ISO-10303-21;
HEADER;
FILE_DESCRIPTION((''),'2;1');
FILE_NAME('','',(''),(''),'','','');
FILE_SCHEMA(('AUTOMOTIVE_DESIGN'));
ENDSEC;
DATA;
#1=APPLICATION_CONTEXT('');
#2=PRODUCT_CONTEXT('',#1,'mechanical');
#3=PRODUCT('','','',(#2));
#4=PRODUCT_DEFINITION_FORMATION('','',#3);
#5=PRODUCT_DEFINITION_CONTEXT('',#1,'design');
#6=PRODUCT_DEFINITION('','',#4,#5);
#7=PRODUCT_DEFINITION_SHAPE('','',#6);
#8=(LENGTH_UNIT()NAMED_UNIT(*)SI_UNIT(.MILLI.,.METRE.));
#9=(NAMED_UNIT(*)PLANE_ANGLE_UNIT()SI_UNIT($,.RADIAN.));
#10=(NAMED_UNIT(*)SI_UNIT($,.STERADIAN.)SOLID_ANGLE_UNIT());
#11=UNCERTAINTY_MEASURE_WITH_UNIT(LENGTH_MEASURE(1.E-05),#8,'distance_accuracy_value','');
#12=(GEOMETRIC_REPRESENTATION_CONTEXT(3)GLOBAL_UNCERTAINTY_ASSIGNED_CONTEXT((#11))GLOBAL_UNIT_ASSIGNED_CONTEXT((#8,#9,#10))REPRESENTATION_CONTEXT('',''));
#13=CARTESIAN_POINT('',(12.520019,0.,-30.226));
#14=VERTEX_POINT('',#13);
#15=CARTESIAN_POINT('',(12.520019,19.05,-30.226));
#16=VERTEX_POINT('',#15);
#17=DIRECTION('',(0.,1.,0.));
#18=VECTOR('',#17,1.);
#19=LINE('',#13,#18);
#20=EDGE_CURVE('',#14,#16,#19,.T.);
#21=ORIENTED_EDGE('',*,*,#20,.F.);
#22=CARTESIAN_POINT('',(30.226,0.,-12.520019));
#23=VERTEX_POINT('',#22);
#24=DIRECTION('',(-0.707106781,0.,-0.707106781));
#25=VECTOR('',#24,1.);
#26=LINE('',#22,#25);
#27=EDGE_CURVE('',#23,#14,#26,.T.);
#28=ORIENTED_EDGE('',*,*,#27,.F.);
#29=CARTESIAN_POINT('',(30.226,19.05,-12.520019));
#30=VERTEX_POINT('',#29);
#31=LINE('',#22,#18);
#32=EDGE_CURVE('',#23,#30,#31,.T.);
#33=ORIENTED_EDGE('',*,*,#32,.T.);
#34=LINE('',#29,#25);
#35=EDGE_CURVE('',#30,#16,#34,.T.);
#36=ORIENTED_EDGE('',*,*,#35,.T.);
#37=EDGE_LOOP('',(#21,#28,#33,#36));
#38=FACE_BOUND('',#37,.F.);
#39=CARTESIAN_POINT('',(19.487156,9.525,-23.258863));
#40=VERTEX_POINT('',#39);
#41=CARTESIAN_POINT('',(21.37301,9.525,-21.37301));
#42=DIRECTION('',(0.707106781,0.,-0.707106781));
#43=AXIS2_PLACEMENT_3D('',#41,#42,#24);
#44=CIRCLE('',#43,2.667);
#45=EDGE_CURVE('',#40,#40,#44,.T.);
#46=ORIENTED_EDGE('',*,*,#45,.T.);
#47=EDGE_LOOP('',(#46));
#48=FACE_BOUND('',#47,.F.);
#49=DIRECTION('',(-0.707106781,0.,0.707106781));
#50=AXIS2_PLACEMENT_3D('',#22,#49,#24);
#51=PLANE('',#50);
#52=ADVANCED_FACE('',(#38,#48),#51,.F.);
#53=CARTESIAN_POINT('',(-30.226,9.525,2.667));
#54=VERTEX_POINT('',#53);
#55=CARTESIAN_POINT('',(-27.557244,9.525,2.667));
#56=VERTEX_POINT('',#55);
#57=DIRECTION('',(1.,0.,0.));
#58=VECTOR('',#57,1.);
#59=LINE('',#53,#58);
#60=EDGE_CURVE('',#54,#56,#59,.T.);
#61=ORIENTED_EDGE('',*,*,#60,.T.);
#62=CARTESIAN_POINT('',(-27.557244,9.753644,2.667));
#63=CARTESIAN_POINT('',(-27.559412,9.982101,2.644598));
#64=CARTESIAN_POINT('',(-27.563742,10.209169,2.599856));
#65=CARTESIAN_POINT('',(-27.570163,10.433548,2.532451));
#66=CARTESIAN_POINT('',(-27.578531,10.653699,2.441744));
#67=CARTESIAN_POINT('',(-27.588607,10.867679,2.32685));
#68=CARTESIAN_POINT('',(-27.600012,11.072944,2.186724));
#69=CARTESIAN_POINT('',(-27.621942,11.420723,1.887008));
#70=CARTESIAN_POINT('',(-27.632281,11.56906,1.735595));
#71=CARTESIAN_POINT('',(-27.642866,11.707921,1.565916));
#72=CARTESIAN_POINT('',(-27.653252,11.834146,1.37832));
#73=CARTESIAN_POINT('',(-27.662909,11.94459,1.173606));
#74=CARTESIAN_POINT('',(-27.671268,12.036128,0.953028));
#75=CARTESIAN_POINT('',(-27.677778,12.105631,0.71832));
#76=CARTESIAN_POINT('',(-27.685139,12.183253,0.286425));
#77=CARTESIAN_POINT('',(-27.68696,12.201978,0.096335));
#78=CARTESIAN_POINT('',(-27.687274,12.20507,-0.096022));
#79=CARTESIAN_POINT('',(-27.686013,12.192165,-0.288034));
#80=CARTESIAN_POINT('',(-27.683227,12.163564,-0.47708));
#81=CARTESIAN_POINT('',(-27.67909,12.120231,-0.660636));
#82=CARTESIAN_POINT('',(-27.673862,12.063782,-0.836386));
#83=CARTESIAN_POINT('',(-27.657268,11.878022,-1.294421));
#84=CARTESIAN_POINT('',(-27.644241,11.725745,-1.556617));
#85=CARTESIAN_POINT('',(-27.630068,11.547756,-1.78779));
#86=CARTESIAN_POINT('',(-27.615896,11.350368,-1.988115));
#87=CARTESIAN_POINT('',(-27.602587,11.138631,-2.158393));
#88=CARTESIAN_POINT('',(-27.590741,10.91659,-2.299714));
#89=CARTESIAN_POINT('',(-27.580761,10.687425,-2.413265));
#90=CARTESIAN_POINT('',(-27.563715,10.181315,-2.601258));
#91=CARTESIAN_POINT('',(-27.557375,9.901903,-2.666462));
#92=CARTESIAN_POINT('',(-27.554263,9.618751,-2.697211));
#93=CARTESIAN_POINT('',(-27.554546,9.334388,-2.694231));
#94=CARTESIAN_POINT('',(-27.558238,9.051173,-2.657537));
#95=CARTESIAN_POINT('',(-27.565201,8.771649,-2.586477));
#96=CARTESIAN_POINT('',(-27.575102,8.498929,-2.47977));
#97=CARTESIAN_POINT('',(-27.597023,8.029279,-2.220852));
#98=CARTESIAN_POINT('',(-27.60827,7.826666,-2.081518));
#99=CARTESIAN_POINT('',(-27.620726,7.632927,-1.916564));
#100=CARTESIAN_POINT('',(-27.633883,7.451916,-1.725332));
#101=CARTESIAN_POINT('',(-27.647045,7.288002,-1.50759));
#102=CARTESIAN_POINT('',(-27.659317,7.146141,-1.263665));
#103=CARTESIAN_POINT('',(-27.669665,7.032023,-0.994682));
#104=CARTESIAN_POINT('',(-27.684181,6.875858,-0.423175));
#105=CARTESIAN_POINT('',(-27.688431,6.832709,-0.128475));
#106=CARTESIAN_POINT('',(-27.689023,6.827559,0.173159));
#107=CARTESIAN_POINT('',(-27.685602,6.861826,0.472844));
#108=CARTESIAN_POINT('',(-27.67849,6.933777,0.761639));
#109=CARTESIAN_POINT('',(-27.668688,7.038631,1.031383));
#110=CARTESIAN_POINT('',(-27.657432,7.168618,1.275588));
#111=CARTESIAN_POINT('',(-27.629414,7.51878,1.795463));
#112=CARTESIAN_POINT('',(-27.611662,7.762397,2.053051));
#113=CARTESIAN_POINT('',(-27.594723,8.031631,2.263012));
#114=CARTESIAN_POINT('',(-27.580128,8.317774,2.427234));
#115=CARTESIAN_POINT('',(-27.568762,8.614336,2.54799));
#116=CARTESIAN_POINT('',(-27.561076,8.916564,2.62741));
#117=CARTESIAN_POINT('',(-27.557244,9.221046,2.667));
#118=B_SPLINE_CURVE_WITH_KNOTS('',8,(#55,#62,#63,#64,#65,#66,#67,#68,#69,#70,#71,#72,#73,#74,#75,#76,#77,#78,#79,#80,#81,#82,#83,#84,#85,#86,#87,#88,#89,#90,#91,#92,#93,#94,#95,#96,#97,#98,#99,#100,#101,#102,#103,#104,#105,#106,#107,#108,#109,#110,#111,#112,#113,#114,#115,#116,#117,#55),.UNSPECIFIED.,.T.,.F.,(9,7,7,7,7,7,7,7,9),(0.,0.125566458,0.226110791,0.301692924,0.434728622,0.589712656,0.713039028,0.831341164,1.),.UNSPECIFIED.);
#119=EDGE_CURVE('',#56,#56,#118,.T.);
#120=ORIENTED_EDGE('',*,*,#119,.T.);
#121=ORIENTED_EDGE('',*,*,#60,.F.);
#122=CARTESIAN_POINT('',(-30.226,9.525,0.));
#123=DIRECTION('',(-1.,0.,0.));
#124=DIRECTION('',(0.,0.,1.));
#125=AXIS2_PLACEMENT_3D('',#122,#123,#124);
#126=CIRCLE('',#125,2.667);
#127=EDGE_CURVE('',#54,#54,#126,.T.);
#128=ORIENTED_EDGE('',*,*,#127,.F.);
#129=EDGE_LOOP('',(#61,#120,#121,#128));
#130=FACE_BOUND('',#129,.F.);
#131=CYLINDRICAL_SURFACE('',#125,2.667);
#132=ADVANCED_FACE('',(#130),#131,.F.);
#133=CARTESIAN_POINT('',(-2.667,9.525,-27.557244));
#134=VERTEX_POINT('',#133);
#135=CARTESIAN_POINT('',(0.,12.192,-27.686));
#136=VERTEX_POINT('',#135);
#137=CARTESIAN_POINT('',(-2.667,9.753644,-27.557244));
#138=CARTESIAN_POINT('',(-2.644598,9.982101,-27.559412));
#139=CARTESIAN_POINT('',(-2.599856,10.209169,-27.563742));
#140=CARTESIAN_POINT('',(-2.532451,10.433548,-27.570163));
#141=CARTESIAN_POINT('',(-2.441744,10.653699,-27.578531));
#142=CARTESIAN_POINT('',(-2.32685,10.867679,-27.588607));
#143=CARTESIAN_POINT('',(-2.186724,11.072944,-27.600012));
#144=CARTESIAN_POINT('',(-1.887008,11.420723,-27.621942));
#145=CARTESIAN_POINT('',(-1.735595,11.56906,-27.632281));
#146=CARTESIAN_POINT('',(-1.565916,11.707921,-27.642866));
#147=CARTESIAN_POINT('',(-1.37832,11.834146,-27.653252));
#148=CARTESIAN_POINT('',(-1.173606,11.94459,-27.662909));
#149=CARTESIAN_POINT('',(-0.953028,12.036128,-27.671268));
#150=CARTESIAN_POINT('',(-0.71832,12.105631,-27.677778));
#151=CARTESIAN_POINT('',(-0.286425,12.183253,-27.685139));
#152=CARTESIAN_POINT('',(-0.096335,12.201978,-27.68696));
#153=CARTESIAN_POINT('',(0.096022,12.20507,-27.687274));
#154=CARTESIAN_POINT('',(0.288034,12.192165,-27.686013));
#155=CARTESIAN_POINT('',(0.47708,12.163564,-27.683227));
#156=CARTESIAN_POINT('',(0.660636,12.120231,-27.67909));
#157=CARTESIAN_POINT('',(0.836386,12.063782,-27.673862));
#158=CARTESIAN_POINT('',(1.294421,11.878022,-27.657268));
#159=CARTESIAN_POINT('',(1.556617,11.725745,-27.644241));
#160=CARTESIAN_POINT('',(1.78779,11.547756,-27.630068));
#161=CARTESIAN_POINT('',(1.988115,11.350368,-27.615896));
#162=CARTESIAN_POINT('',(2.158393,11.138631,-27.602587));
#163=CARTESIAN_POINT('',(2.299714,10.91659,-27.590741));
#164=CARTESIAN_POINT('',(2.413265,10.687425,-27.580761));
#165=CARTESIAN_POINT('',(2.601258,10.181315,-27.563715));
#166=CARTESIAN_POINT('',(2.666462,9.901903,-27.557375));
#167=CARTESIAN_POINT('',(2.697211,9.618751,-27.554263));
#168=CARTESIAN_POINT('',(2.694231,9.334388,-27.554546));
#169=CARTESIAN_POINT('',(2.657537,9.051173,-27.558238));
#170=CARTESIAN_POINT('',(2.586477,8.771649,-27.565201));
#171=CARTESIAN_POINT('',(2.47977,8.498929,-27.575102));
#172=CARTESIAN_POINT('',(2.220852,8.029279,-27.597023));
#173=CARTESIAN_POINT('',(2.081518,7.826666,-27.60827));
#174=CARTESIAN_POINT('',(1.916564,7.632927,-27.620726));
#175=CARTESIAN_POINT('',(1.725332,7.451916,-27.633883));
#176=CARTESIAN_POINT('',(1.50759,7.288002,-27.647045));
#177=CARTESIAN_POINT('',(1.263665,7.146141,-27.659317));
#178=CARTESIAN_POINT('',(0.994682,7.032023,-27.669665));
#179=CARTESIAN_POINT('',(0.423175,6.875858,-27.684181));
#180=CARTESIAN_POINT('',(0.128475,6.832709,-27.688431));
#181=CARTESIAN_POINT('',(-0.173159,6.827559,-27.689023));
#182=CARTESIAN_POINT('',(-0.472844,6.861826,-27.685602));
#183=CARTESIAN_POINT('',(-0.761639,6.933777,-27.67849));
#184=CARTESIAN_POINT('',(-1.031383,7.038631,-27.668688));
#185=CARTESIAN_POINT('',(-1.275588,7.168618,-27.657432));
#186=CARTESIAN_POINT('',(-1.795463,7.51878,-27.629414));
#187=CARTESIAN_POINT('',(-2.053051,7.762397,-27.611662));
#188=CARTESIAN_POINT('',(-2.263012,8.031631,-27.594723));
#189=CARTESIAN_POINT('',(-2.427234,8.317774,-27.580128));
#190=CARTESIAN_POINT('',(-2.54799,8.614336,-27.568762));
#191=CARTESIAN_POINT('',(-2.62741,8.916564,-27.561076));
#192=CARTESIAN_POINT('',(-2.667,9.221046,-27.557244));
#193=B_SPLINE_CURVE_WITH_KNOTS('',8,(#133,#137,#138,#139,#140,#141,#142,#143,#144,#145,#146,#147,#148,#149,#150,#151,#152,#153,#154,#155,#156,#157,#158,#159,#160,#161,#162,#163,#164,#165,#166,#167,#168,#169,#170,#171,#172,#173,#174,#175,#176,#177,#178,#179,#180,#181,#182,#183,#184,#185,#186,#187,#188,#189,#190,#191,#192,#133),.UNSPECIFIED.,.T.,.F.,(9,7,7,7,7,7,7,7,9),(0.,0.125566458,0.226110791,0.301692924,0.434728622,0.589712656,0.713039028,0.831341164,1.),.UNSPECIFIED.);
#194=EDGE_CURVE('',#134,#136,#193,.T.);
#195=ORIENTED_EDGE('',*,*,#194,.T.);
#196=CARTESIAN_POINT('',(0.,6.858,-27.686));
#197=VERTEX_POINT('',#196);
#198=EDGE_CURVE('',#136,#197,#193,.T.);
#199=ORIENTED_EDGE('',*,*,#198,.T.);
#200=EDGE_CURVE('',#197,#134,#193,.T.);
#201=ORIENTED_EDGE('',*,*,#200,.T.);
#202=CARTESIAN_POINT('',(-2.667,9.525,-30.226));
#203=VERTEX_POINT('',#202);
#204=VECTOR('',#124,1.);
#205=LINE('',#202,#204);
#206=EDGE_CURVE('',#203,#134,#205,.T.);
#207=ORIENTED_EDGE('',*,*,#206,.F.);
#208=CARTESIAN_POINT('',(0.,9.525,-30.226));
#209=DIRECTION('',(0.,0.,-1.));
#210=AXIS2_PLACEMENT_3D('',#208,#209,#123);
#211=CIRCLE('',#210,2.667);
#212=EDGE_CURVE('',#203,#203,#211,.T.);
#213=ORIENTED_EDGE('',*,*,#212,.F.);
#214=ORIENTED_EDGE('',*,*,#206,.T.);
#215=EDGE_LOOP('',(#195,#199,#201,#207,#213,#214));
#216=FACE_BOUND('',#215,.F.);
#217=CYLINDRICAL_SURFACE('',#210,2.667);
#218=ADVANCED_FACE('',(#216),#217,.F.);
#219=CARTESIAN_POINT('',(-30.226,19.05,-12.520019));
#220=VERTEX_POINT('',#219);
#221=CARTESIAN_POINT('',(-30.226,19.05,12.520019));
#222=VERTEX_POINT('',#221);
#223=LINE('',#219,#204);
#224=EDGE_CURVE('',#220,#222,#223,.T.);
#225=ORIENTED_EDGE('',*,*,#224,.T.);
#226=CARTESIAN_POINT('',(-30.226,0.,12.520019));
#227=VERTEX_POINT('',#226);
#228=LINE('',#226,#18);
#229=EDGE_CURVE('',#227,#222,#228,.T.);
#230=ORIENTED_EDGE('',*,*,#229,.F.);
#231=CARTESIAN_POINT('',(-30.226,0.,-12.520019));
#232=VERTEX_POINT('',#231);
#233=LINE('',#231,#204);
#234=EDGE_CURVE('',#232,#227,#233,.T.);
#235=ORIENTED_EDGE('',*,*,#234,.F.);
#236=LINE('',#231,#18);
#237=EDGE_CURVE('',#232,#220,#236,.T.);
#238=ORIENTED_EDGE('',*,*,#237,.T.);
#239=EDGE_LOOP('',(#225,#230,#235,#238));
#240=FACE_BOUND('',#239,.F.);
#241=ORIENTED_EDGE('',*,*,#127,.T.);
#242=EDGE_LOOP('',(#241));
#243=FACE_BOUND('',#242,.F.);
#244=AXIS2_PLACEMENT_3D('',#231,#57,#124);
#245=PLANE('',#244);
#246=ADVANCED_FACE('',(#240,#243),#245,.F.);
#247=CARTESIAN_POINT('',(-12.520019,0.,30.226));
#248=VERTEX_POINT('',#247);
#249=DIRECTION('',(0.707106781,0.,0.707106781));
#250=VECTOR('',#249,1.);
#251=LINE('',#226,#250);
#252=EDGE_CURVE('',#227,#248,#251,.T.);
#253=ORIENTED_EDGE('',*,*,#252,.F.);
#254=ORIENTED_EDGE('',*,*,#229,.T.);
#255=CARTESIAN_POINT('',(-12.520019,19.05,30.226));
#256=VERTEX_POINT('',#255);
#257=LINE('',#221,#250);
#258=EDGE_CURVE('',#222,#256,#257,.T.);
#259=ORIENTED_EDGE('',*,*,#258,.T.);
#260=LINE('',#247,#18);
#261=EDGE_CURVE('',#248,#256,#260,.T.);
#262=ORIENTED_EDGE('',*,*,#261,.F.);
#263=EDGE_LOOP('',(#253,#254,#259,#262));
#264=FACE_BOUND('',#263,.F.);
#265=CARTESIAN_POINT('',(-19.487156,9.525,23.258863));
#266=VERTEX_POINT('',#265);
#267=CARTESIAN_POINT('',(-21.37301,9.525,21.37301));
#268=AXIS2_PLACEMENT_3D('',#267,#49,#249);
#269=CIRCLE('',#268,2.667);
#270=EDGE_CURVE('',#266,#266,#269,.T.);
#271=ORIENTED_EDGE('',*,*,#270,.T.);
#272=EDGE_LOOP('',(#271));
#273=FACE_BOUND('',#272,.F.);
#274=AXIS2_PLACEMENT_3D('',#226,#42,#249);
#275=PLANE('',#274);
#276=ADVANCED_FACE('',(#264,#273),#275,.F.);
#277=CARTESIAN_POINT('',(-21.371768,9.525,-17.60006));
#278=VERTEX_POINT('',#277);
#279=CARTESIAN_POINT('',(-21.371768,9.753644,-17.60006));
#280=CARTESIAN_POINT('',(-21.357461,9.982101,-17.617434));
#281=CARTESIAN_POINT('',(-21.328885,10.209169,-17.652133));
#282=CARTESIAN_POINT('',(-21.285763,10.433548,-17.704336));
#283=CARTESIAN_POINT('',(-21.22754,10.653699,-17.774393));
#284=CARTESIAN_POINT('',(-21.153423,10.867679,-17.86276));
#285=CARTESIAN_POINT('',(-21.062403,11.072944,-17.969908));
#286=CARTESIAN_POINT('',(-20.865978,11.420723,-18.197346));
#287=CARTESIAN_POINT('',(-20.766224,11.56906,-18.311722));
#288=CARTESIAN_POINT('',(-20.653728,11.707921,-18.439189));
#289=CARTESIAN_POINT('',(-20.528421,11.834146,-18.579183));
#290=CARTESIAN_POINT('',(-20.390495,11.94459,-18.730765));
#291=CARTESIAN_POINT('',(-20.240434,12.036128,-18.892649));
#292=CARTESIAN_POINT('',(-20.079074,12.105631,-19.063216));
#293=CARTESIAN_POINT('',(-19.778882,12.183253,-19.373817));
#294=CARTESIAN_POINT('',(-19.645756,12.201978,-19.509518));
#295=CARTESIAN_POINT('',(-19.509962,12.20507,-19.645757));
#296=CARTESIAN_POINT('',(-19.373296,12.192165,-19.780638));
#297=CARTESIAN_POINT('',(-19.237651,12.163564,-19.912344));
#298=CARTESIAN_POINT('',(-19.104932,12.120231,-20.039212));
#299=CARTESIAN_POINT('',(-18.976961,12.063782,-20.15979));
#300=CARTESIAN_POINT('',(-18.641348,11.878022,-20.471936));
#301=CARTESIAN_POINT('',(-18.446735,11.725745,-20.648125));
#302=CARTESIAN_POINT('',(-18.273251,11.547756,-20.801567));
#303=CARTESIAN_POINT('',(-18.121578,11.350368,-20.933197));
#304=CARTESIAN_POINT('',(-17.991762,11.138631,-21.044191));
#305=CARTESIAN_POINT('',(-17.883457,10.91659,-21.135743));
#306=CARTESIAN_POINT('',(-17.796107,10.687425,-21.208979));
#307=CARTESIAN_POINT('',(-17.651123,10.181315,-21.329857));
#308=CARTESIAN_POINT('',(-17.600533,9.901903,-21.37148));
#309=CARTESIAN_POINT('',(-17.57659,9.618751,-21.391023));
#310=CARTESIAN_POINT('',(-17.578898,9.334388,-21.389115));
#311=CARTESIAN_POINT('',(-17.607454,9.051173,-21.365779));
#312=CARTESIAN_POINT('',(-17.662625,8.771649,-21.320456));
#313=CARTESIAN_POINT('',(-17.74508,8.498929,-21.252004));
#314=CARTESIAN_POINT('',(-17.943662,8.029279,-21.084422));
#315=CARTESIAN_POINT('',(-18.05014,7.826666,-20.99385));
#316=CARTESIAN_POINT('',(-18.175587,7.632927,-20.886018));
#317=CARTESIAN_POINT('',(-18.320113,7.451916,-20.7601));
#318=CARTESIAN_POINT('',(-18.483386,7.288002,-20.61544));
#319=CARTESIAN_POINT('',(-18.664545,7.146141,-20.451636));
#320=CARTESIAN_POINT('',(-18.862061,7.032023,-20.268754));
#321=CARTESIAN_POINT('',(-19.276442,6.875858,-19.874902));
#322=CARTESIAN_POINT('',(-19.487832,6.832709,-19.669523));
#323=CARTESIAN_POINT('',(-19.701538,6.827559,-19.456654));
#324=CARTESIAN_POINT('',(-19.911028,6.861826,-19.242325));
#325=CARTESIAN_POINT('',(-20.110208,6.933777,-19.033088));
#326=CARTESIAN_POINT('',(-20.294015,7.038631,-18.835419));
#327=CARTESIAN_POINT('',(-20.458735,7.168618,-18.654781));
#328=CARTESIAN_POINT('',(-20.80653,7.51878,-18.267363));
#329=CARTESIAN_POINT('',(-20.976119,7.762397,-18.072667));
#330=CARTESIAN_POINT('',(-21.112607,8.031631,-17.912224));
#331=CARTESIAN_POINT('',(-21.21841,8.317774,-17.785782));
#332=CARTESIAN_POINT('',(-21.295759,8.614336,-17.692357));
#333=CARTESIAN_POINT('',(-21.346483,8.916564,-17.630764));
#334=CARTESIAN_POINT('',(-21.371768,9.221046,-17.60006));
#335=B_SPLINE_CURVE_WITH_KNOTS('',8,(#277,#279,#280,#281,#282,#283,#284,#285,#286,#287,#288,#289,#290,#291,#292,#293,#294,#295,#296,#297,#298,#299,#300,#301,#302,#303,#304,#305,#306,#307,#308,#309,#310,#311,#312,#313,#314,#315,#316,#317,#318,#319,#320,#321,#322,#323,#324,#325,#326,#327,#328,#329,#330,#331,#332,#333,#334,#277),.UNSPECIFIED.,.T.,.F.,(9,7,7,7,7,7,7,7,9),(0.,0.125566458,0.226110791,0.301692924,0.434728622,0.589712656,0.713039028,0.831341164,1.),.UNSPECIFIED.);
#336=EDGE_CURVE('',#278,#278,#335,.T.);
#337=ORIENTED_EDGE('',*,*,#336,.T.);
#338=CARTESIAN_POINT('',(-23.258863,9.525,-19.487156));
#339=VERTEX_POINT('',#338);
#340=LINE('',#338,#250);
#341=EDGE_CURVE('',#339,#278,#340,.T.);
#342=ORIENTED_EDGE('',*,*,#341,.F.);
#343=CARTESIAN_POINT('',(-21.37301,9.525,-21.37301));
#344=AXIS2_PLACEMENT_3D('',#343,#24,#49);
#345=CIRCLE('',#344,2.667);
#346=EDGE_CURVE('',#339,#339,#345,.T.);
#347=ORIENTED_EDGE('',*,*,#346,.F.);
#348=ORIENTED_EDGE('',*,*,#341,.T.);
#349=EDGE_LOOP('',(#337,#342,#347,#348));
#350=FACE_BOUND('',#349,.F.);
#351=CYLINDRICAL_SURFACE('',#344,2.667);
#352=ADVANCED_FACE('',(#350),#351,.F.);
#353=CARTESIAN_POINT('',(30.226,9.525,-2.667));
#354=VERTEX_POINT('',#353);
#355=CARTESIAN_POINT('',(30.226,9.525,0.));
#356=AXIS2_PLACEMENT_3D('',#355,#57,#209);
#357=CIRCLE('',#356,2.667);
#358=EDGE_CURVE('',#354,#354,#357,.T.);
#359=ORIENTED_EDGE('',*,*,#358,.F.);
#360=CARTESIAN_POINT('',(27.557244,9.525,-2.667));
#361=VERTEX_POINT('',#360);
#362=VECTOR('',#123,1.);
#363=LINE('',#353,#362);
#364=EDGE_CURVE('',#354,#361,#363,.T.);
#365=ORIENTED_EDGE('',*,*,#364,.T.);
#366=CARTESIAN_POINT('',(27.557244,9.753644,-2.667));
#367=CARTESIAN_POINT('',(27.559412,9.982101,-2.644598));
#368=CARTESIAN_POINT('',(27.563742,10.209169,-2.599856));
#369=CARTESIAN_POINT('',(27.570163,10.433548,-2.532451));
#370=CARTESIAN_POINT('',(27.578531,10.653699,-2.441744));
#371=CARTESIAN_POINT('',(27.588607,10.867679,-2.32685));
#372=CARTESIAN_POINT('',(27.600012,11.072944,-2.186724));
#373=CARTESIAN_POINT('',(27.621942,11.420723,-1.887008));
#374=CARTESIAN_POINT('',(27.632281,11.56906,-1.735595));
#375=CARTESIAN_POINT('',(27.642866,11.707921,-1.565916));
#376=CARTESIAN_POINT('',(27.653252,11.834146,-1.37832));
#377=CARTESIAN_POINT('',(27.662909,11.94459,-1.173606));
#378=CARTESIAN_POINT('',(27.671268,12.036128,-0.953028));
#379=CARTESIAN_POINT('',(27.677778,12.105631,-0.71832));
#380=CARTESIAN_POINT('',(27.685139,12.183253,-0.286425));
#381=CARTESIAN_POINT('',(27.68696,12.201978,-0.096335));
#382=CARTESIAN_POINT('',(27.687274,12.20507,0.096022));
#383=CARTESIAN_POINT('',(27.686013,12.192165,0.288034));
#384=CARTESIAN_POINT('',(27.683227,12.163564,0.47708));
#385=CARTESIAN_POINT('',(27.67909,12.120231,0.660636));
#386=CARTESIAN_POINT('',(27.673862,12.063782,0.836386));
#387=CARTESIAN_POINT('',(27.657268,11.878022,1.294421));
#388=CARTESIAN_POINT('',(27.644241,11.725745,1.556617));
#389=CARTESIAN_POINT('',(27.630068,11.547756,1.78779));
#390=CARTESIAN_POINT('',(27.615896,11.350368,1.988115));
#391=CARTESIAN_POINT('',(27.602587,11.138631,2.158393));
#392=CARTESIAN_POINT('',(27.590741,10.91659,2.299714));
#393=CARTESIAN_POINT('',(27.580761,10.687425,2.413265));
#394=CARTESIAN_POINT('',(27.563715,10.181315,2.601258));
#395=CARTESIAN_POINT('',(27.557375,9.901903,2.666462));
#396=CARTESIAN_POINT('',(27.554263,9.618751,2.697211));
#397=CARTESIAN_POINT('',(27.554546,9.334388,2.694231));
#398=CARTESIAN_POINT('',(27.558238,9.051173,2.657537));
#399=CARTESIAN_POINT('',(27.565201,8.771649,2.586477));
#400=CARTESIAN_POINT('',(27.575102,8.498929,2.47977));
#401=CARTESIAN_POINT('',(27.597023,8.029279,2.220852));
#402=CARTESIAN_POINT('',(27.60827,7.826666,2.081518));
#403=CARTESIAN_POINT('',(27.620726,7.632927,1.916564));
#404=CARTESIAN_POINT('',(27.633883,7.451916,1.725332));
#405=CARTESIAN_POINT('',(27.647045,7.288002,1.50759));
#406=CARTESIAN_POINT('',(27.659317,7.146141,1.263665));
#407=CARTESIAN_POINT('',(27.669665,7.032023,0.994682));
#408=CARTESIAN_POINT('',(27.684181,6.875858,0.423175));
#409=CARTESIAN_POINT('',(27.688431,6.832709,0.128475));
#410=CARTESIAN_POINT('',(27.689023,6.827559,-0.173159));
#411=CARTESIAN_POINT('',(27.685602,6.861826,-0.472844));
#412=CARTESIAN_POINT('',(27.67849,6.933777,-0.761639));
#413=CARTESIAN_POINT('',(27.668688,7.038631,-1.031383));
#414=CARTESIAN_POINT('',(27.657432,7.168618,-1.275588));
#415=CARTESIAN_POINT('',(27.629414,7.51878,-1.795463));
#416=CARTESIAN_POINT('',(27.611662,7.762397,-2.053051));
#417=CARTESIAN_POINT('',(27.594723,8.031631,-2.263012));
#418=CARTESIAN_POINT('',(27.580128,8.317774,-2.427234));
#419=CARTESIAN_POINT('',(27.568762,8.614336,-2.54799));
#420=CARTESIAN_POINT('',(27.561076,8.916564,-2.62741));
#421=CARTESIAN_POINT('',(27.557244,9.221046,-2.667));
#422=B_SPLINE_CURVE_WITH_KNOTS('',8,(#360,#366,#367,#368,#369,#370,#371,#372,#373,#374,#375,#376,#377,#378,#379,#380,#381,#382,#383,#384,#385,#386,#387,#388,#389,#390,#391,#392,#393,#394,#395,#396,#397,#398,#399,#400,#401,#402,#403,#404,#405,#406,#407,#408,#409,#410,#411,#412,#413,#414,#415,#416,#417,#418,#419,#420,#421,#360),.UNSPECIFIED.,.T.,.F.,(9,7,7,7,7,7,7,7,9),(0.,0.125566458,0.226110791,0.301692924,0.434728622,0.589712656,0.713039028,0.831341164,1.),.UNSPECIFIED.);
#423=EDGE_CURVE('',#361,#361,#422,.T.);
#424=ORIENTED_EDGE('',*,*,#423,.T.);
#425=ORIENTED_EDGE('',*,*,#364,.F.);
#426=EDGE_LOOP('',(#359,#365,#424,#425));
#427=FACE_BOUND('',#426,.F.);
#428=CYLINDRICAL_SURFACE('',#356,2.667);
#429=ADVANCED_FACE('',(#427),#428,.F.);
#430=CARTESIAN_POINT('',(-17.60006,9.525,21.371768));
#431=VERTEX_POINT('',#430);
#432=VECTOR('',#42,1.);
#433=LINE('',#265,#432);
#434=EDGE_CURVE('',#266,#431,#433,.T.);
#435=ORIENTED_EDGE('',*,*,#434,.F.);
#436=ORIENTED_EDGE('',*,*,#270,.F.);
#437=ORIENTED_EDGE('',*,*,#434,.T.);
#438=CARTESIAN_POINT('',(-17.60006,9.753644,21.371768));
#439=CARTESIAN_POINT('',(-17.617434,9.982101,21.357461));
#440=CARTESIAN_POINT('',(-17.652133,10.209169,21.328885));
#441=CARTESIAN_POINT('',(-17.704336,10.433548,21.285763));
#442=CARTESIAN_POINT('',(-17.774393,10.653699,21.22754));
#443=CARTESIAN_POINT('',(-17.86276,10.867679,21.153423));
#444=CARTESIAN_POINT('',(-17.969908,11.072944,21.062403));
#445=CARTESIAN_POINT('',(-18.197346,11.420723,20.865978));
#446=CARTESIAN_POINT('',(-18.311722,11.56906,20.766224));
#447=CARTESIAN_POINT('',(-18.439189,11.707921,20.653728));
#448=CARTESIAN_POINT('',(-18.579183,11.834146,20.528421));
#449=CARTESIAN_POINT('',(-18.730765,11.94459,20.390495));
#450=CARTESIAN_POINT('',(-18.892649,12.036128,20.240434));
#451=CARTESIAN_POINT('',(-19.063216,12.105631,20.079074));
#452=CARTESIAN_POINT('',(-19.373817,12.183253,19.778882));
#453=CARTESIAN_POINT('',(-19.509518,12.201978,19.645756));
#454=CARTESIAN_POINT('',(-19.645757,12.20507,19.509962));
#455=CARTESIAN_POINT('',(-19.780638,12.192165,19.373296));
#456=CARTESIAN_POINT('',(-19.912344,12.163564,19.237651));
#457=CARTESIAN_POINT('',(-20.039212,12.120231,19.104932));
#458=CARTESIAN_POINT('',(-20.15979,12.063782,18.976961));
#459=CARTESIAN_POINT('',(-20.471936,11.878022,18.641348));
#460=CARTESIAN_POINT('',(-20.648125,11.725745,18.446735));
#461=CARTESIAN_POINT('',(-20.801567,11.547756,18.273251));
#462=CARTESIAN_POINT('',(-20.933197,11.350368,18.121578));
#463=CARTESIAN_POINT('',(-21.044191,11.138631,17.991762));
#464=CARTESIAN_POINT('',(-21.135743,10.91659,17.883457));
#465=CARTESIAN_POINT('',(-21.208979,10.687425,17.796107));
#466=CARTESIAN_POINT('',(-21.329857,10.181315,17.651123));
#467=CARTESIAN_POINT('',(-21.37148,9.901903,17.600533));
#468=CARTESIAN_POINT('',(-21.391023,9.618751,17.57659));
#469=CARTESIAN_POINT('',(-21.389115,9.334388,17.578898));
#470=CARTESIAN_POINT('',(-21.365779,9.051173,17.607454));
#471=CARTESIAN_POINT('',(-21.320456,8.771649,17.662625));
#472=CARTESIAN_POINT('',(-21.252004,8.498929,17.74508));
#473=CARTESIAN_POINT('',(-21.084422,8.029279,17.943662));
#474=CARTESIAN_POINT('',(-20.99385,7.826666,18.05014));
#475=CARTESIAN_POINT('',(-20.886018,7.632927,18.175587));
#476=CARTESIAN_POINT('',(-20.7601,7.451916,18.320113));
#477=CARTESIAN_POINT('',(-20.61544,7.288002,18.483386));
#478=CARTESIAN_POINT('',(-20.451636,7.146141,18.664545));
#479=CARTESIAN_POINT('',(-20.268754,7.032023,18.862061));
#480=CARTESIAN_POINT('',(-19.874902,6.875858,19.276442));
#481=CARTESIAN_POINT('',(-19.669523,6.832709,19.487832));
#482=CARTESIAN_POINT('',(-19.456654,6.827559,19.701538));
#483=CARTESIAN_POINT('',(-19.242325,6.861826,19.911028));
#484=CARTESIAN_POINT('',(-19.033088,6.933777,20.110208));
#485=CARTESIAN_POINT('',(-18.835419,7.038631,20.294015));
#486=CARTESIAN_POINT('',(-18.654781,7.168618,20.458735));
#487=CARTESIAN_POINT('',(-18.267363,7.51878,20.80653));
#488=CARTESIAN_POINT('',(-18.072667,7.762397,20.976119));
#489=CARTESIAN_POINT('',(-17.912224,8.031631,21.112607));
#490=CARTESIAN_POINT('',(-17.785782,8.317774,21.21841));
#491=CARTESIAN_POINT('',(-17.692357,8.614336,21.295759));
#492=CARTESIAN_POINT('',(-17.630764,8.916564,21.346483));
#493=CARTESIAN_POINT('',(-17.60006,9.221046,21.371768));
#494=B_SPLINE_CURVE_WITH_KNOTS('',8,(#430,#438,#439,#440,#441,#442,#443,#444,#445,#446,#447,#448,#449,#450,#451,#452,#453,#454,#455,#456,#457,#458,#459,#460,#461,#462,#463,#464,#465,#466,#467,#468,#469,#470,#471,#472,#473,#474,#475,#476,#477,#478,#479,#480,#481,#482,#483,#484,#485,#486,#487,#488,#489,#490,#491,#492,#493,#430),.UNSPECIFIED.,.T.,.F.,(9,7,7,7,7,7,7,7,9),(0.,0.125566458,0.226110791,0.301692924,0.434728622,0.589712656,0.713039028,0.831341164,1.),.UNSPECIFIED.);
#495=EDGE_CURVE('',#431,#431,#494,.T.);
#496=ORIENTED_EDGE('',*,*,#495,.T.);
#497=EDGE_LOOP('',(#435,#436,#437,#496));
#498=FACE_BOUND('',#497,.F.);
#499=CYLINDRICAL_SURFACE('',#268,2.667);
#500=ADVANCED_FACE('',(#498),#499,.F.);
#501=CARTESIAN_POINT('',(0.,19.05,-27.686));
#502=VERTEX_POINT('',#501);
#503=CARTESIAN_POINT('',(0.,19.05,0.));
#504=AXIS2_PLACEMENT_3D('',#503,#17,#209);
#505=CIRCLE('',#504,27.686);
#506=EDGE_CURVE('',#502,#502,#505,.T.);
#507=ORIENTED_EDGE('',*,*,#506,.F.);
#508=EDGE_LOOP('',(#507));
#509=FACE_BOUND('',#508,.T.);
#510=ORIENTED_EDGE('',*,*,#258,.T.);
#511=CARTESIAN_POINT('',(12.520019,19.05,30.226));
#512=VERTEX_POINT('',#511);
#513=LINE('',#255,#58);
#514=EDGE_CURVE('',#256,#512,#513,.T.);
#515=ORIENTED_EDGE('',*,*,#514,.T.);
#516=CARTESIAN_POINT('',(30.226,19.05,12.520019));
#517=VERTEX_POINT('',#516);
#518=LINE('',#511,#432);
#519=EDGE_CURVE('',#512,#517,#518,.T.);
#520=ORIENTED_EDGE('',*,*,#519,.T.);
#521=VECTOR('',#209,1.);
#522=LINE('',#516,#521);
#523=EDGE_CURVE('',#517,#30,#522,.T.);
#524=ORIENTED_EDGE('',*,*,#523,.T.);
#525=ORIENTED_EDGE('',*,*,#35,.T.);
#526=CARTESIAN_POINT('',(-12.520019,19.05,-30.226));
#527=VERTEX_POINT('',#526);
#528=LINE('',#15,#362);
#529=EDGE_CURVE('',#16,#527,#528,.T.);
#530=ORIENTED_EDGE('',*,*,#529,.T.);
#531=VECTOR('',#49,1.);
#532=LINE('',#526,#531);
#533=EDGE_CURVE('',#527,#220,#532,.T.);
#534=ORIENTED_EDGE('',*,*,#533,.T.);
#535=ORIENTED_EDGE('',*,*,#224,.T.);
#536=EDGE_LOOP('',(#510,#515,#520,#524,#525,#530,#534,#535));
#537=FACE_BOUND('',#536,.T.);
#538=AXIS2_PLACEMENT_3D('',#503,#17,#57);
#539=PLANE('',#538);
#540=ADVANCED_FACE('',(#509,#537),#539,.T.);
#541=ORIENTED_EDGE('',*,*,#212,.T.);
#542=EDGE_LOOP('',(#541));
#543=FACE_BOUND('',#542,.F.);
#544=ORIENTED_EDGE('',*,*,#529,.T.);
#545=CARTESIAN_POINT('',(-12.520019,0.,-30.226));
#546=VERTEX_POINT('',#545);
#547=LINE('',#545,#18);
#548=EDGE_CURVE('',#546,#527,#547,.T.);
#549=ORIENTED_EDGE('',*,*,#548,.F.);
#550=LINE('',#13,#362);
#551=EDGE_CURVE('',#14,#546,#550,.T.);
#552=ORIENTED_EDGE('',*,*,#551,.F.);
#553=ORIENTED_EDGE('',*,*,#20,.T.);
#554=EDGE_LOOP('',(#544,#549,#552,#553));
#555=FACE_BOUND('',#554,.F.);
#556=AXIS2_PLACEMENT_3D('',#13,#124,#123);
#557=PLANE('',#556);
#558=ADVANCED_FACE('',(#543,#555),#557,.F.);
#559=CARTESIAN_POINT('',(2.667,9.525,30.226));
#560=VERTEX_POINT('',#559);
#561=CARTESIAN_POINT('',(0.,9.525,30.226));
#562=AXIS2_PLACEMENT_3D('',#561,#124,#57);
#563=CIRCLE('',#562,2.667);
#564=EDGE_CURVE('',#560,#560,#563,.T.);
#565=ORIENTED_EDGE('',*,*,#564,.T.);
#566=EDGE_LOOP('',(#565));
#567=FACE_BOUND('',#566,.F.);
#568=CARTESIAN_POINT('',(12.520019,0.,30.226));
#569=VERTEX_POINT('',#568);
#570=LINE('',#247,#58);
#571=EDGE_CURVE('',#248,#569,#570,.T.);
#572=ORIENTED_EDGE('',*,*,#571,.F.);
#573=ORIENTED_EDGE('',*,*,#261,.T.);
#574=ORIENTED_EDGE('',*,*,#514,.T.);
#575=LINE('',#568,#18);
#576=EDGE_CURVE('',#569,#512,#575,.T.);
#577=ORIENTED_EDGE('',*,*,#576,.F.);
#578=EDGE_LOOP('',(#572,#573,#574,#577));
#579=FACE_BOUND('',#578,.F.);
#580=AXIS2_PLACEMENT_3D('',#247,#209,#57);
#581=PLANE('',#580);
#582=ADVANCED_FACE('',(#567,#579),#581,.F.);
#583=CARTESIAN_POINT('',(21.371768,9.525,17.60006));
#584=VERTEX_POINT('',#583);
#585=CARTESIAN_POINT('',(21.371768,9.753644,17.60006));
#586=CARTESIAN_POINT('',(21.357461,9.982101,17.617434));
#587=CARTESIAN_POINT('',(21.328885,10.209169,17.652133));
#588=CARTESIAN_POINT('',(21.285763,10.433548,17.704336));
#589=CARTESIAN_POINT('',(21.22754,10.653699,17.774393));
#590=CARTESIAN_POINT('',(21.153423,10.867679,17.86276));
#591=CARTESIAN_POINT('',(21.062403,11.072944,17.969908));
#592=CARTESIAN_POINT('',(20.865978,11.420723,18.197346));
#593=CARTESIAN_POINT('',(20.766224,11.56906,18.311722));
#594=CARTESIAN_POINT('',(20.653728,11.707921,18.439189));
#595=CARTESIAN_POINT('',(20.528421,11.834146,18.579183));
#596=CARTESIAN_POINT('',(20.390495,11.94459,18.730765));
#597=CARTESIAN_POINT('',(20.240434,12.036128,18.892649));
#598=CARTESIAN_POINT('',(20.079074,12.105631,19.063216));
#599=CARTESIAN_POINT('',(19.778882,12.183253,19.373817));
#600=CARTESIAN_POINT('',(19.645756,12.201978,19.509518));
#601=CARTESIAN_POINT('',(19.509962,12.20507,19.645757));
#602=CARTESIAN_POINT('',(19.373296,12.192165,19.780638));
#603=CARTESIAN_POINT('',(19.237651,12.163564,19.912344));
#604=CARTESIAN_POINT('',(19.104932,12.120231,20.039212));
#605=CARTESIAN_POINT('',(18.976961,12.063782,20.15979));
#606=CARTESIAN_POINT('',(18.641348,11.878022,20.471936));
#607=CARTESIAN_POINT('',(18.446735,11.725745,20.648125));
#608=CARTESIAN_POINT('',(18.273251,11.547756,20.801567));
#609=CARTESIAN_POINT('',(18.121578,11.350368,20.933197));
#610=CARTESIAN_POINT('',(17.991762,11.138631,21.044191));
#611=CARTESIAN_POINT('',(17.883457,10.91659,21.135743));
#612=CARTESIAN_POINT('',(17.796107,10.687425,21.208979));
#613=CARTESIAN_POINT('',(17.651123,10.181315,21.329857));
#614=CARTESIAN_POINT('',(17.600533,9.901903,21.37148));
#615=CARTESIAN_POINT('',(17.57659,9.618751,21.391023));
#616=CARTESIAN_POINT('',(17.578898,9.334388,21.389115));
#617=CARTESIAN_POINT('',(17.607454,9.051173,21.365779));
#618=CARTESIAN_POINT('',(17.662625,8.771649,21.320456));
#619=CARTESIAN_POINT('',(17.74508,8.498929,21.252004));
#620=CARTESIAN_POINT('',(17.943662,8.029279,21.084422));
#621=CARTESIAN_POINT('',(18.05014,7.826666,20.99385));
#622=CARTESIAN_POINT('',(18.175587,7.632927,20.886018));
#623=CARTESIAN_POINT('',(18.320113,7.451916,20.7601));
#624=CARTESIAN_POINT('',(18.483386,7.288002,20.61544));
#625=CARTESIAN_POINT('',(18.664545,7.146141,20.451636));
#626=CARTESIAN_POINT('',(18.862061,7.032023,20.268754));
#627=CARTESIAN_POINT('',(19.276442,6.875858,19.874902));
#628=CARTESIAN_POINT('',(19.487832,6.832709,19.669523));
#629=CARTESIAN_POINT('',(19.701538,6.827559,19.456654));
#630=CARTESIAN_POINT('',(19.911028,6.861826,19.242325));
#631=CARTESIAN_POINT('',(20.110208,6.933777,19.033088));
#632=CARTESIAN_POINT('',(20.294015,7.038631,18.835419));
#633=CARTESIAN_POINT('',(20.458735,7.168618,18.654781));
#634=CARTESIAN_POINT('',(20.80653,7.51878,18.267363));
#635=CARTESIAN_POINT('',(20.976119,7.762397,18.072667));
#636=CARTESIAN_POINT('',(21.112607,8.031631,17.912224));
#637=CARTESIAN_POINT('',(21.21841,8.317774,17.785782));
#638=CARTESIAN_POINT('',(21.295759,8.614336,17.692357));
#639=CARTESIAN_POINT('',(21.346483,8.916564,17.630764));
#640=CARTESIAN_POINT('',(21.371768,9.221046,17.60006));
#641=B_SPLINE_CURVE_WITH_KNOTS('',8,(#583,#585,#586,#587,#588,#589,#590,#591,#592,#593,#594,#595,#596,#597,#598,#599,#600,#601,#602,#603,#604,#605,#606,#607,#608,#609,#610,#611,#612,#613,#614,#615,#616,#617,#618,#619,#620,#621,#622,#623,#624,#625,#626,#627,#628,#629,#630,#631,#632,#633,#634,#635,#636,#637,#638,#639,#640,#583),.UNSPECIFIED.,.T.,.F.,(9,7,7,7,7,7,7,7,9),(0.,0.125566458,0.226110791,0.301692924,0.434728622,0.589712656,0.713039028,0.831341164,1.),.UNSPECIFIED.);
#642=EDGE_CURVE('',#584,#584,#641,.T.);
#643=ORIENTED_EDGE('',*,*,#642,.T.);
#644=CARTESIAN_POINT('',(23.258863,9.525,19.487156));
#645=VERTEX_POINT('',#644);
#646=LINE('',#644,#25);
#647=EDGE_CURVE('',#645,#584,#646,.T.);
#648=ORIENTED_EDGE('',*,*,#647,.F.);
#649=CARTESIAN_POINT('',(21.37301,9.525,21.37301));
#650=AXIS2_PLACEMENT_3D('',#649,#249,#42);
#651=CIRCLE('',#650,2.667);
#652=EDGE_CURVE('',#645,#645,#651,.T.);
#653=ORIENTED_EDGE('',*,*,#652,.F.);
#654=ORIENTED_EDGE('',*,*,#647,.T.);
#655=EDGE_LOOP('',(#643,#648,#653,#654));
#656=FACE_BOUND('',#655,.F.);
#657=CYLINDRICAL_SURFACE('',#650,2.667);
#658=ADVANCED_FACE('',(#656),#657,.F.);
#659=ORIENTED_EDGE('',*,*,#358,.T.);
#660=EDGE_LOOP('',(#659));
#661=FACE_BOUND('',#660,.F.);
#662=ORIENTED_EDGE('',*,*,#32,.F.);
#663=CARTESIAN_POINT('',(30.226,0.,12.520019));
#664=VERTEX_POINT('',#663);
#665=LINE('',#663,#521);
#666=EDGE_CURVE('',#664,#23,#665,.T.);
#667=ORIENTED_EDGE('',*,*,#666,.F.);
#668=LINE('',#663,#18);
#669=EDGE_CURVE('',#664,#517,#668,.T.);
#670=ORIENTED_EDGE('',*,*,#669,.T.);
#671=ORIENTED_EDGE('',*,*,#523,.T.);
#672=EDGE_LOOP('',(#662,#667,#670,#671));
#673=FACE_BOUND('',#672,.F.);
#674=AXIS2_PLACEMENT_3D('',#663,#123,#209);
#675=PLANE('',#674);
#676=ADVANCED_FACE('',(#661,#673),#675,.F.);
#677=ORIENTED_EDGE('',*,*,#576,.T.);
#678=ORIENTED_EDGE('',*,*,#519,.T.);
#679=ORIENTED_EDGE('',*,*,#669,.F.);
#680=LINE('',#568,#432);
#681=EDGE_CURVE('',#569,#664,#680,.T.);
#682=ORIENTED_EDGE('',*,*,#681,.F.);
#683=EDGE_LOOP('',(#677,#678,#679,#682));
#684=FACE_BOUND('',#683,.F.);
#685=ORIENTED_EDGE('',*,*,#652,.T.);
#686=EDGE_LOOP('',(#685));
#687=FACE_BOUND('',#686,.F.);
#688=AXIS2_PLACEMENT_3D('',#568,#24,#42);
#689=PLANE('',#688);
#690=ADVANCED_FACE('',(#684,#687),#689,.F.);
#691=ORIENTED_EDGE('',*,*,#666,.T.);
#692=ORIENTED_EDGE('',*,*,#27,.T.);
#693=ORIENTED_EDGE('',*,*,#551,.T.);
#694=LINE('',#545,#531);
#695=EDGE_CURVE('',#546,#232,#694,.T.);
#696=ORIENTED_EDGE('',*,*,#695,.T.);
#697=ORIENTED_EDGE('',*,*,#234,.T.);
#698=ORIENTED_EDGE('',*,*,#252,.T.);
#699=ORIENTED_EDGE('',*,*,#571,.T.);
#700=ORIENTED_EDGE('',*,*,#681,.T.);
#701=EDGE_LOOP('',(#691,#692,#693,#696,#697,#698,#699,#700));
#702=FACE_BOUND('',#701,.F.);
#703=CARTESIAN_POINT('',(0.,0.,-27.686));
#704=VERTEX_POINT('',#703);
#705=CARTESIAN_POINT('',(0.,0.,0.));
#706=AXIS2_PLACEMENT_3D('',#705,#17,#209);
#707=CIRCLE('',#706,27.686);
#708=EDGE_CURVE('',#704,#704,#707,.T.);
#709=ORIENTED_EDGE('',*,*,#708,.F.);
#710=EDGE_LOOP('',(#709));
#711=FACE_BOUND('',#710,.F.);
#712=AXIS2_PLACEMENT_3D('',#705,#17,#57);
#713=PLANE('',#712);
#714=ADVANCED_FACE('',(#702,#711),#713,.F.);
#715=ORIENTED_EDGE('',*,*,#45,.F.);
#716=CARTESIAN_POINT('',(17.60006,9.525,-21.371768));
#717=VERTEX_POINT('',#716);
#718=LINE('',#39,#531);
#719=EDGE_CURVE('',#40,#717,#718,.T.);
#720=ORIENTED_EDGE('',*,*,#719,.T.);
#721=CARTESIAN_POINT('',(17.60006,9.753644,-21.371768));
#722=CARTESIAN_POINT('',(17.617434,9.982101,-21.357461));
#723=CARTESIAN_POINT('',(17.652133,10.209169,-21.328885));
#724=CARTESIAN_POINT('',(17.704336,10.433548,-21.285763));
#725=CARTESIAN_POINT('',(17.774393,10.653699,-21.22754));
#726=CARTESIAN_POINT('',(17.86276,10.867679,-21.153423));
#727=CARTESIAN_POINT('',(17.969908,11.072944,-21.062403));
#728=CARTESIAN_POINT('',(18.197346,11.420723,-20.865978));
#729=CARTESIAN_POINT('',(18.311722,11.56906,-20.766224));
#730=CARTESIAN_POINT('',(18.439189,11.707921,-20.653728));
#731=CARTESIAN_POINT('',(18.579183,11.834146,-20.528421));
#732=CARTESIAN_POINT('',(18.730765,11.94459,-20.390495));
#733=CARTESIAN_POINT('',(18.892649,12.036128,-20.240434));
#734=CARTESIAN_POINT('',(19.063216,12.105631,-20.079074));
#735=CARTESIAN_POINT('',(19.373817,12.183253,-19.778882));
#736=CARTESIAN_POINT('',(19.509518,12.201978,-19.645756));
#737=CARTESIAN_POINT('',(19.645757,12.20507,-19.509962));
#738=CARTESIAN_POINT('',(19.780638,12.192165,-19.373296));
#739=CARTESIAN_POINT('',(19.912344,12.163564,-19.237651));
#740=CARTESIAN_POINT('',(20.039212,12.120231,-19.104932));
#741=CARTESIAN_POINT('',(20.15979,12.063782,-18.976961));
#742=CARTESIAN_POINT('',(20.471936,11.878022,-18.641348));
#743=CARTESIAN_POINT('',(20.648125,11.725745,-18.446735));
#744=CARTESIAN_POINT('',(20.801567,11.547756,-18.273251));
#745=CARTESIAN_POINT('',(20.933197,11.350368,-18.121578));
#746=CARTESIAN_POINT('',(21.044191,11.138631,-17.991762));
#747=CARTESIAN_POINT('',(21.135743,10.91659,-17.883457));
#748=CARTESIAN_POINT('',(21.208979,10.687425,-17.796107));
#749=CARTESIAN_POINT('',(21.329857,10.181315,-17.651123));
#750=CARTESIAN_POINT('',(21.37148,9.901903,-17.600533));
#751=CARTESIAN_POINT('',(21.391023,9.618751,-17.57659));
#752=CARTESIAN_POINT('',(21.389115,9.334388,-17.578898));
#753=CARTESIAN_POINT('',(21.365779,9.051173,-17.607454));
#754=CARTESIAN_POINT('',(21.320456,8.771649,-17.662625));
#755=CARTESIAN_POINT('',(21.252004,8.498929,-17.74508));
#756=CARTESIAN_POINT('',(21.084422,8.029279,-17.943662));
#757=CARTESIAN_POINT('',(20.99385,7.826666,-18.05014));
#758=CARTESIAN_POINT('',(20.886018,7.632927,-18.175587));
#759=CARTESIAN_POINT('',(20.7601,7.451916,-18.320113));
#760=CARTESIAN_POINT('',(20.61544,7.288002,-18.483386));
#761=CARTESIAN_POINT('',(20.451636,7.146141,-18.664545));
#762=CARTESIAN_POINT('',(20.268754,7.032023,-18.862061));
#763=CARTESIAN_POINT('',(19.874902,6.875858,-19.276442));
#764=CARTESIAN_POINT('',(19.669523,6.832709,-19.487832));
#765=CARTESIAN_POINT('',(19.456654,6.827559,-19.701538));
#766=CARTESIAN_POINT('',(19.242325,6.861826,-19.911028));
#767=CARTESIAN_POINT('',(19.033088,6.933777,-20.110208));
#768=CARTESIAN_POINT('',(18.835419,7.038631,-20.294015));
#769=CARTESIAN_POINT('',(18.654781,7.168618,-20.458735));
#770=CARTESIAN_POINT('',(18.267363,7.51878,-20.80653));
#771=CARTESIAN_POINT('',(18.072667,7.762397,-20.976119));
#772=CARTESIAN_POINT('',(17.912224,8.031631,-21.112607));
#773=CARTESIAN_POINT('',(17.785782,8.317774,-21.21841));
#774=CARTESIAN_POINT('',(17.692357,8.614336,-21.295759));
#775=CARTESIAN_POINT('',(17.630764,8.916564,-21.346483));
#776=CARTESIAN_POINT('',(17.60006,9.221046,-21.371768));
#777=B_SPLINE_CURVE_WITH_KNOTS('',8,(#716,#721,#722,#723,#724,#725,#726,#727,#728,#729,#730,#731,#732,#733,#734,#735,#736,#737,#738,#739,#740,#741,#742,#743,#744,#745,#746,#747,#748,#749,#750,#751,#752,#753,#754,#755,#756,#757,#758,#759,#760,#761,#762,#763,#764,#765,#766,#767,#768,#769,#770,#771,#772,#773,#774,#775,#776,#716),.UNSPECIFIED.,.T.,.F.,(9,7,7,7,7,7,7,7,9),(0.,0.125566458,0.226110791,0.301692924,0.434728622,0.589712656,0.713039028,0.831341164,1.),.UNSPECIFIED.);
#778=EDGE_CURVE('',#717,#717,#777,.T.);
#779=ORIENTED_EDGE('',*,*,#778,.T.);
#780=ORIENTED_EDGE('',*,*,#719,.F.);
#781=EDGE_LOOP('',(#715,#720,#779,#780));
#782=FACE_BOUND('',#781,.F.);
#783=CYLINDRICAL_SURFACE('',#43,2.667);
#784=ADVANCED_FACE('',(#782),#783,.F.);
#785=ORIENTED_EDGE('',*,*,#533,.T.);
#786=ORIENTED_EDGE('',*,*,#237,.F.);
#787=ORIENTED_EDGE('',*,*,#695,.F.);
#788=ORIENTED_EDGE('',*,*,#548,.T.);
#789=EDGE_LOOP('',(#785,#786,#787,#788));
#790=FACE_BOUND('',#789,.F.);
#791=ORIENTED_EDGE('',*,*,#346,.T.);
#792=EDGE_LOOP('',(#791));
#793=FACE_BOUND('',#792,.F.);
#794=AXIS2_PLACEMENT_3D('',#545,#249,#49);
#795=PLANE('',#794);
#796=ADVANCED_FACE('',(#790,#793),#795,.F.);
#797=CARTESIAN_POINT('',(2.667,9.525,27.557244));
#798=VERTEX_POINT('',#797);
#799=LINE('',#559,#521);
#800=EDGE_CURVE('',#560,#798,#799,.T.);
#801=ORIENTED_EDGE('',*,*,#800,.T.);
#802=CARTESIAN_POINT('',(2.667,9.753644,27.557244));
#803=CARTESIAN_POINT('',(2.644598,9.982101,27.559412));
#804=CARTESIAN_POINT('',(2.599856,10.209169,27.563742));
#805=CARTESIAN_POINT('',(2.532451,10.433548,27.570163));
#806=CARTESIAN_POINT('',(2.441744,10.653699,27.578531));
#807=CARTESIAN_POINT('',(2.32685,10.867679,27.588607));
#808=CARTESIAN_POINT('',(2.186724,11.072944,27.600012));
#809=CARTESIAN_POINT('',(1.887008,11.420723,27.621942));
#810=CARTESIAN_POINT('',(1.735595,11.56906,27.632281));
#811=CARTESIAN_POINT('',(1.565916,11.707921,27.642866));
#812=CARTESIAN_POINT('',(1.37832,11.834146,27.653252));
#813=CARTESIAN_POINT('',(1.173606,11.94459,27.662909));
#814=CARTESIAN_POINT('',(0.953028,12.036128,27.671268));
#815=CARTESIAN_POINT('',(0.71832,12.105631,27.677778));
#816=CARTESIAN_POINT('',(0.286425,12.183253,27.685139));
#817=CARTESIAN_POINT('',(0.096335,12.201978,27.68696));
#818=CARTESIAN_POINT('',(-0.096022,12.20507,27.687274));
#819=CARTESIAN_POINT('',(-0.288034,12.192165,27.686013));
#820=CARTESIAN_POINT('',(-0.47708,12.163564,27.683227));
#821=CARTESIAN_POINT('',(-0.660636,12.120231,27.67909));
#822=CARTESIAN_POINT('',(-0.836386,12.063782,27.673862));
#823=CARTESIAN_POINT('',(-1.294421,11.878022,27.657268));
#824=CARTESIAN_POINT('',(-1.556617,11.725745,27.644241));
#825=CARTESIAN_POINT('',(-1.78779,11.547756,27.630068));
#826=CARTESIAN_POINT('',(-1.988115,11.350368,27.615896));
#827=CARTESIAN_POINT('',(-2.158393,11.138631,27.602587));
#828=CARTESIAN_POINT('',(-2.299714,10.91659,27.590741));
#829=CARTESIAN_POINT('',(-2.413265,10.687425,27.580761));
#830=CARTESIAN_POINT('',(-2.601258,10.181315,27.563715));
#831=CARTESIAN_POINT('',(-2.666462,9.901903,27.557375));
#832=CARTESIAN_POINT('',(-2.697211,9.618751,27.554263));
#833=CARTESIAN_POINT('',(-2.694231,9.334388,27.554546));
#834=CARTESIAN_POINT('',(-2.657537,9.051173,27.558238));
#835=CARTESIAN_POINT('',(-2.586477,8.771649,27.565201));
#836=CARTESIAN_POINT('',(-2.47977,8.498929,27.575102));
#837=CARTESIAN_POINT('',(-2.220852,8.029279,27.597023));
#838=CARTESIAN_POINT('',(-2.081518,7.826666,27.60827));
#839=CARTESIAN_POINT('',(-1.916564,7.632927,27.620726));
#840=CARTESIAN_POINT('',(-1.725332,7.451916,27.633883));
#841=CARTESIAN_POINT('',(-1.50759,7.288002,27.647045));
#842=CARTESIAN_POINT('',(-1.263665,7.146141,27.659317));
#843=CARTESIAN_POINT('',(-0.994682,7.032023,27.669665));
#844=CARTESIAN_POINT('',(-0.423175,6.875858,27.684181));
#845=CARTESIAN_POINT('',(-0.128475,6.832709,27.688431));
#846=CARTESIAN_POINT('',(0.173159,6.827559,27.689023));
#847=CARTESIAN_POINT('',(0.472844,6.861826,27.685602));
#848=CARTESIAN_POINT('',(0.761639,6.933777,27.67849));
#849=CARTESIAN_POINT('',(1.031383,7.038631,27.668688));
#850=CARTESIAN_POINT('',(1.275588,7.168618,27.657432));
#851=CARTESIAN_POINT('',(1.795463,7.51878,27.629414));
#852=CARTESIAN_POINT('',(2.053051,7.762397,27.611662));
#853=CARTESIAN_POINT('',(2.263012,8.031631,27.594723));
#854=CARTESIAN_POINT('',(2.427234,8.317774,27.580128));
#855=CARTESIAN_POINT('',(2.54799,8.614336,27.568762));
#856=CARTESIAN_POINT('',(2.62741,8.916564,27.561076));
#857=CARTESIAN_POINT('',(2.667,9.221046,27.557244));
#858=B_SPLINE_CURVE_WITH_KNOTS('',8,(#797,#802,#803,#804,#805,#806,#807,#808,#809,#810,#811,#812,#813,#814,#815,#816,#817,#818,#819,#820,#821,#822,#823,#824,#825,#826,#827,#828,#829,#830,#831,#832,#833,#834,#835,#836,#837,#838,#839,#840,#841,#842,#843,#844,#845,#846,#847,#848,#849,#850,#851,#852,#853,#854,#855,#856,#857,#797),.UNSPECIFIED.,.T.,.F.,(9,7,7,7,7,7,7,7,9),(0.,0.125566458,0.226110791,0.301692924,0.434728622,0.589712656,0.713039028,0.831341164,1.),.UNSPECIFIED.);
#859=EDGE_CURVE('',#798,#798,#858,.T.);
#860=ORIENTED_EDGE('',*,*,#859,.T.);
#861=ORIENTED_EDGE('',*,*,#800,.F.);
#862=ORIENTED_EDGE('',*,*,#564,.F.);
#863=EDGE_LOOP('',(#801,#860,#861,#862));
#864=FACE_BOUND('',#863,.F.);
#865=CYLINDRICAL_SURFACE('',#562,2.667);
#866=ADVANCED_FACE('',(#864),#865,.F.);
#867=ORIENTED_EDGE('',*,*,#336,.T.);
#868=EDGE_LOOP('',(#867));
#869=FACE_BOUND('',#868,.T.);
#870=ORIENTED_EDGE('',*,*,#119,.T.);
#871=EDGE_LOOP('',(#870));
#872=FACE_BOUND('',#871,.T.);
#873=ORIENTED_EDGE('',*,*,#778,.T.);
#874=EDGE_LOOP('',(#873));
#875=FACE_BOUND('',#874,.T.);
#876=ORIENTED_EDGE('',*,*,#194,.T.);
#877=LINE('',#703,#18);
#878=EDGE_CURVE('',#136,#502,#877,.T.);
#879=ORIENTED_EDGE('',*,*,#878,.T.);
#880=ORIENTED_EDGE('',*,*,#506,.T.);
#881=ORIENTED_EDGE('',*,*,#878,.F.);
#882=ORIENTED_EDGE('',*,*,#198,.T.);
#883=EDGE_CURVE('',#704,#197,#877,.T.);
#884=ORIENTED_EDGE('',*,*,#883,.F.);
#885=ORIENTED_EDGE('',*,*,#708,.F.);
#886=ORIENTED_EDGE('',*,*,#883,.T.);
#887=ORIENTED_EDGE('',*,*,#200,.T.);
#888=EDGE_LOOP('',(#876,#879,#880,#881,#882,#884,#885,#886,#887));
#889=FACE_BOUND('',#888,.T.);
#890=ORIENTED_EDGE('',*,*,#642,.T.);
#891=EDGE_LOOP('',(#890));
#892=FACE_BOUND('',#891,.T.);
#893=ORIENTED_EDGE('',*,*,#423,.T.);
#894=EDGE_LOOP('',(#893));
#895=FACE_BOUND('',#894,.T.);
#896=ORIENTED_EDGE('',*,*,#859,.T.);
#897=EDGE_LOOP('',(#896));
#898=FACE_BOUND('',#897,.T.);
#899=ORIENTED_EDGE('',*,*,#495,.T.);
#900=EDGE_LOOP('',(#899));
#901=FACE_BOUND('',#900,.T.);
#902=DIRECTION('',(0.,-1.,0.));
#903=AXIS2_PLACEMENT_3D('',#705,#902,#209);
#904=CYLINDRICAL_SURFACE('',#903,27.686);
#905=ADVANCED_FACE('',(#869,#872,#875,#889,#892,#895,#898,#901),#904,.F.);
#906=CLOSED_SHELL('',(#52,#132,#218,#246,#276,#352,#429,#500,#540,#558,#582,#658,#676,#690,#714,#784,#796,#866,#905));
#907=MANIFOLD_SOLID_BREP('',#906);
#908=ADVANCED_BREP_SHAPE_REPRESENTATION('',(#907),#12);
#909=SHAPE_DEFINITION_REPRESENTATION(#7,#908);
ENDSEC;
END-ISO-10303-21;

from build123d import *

# Parameters (mm, degrees)
SKETCH1_R               = 27.686
BOSS_EXTRUDE1_DEPTH     = 19.05
CUT_EXTRUDE1_REACH      = 72.221
CUT_EXTRUDE1_END_RADIUS = 27.686
SKETCH2_R               = 2.667
CIRPATTERN1_COUNT       = 8


with BuildPart() as part:
    # Sketch1 → Boss-Extrude1 (new body)
    with BuildSketch(Plane(origin=(0, 0, 0), x_dir=(1, 0, 0), z_dir=(0, 1, 0))):
        Polygon((12.520019136, 30.226), (-12.520019136, 30.226), (-30.226, 12.520019136), (-30.226, -12.520019136), (-12.520019136, -30.226), (12.520019136, -30.226), (30.226, -12.520019136), (30.226, 12.520019136), align=None)
        with Locations(Location((0, 0, 0), (0, 0, 90))):
            Circle(SKETCH1_R, mode=Mode.SUBTRACT)
    extrude(amount=BOSS_EXTRUDE1_DEPTH)

    # Cut-Extrude1: up to this cylinder (the profile starts outside it)
    cut_extrude1_end = Plane(origin=(0, 9.525, 0), z_dir=(0, -1, 0)) * Cylinder(CUT_EXTRUDE1_END_RADIUS, 200.814, mode=Mode.PRIVATE)
    # Sketch2 → Cut-Extrude1 (cut, up to the surface)
    with BuildSketch(Plane.XY.offset(30.226), mode=Mode.PRIVATE) as cut_extrude1_sk1:
        with Locations((0, 9.525)):
            Circle(SKETCH2_R)
    cut_extrude1_tool1 = extrude(cut_extrude1_sk1.sketch, amount=-CUT_EXTRUDE1_REACH, mode=Mode.PRIVATE) - cut_extrude1_end
    cut_extrude1 = cut_extrude1_tool1.solids().sort_by_distance((0, 9.525, 30.226))[0]
    add(cut_extrude1, mode=Mode.SUBTRACT)

    # CirPattern1: Cut-Extrude1 ×8 about axis
    cirpattern1_axis = Axis((0, 19.05, 0), (0, 1, 0))
    for i in range(1, CIRPATTERN1_COUNT):
        add(cut_extrude1.rotate(cirpattern1_axis, i * 360 / CIRPATTERN1_COUNT), mode=Mode.SUBTRACT)


solid = part.part
